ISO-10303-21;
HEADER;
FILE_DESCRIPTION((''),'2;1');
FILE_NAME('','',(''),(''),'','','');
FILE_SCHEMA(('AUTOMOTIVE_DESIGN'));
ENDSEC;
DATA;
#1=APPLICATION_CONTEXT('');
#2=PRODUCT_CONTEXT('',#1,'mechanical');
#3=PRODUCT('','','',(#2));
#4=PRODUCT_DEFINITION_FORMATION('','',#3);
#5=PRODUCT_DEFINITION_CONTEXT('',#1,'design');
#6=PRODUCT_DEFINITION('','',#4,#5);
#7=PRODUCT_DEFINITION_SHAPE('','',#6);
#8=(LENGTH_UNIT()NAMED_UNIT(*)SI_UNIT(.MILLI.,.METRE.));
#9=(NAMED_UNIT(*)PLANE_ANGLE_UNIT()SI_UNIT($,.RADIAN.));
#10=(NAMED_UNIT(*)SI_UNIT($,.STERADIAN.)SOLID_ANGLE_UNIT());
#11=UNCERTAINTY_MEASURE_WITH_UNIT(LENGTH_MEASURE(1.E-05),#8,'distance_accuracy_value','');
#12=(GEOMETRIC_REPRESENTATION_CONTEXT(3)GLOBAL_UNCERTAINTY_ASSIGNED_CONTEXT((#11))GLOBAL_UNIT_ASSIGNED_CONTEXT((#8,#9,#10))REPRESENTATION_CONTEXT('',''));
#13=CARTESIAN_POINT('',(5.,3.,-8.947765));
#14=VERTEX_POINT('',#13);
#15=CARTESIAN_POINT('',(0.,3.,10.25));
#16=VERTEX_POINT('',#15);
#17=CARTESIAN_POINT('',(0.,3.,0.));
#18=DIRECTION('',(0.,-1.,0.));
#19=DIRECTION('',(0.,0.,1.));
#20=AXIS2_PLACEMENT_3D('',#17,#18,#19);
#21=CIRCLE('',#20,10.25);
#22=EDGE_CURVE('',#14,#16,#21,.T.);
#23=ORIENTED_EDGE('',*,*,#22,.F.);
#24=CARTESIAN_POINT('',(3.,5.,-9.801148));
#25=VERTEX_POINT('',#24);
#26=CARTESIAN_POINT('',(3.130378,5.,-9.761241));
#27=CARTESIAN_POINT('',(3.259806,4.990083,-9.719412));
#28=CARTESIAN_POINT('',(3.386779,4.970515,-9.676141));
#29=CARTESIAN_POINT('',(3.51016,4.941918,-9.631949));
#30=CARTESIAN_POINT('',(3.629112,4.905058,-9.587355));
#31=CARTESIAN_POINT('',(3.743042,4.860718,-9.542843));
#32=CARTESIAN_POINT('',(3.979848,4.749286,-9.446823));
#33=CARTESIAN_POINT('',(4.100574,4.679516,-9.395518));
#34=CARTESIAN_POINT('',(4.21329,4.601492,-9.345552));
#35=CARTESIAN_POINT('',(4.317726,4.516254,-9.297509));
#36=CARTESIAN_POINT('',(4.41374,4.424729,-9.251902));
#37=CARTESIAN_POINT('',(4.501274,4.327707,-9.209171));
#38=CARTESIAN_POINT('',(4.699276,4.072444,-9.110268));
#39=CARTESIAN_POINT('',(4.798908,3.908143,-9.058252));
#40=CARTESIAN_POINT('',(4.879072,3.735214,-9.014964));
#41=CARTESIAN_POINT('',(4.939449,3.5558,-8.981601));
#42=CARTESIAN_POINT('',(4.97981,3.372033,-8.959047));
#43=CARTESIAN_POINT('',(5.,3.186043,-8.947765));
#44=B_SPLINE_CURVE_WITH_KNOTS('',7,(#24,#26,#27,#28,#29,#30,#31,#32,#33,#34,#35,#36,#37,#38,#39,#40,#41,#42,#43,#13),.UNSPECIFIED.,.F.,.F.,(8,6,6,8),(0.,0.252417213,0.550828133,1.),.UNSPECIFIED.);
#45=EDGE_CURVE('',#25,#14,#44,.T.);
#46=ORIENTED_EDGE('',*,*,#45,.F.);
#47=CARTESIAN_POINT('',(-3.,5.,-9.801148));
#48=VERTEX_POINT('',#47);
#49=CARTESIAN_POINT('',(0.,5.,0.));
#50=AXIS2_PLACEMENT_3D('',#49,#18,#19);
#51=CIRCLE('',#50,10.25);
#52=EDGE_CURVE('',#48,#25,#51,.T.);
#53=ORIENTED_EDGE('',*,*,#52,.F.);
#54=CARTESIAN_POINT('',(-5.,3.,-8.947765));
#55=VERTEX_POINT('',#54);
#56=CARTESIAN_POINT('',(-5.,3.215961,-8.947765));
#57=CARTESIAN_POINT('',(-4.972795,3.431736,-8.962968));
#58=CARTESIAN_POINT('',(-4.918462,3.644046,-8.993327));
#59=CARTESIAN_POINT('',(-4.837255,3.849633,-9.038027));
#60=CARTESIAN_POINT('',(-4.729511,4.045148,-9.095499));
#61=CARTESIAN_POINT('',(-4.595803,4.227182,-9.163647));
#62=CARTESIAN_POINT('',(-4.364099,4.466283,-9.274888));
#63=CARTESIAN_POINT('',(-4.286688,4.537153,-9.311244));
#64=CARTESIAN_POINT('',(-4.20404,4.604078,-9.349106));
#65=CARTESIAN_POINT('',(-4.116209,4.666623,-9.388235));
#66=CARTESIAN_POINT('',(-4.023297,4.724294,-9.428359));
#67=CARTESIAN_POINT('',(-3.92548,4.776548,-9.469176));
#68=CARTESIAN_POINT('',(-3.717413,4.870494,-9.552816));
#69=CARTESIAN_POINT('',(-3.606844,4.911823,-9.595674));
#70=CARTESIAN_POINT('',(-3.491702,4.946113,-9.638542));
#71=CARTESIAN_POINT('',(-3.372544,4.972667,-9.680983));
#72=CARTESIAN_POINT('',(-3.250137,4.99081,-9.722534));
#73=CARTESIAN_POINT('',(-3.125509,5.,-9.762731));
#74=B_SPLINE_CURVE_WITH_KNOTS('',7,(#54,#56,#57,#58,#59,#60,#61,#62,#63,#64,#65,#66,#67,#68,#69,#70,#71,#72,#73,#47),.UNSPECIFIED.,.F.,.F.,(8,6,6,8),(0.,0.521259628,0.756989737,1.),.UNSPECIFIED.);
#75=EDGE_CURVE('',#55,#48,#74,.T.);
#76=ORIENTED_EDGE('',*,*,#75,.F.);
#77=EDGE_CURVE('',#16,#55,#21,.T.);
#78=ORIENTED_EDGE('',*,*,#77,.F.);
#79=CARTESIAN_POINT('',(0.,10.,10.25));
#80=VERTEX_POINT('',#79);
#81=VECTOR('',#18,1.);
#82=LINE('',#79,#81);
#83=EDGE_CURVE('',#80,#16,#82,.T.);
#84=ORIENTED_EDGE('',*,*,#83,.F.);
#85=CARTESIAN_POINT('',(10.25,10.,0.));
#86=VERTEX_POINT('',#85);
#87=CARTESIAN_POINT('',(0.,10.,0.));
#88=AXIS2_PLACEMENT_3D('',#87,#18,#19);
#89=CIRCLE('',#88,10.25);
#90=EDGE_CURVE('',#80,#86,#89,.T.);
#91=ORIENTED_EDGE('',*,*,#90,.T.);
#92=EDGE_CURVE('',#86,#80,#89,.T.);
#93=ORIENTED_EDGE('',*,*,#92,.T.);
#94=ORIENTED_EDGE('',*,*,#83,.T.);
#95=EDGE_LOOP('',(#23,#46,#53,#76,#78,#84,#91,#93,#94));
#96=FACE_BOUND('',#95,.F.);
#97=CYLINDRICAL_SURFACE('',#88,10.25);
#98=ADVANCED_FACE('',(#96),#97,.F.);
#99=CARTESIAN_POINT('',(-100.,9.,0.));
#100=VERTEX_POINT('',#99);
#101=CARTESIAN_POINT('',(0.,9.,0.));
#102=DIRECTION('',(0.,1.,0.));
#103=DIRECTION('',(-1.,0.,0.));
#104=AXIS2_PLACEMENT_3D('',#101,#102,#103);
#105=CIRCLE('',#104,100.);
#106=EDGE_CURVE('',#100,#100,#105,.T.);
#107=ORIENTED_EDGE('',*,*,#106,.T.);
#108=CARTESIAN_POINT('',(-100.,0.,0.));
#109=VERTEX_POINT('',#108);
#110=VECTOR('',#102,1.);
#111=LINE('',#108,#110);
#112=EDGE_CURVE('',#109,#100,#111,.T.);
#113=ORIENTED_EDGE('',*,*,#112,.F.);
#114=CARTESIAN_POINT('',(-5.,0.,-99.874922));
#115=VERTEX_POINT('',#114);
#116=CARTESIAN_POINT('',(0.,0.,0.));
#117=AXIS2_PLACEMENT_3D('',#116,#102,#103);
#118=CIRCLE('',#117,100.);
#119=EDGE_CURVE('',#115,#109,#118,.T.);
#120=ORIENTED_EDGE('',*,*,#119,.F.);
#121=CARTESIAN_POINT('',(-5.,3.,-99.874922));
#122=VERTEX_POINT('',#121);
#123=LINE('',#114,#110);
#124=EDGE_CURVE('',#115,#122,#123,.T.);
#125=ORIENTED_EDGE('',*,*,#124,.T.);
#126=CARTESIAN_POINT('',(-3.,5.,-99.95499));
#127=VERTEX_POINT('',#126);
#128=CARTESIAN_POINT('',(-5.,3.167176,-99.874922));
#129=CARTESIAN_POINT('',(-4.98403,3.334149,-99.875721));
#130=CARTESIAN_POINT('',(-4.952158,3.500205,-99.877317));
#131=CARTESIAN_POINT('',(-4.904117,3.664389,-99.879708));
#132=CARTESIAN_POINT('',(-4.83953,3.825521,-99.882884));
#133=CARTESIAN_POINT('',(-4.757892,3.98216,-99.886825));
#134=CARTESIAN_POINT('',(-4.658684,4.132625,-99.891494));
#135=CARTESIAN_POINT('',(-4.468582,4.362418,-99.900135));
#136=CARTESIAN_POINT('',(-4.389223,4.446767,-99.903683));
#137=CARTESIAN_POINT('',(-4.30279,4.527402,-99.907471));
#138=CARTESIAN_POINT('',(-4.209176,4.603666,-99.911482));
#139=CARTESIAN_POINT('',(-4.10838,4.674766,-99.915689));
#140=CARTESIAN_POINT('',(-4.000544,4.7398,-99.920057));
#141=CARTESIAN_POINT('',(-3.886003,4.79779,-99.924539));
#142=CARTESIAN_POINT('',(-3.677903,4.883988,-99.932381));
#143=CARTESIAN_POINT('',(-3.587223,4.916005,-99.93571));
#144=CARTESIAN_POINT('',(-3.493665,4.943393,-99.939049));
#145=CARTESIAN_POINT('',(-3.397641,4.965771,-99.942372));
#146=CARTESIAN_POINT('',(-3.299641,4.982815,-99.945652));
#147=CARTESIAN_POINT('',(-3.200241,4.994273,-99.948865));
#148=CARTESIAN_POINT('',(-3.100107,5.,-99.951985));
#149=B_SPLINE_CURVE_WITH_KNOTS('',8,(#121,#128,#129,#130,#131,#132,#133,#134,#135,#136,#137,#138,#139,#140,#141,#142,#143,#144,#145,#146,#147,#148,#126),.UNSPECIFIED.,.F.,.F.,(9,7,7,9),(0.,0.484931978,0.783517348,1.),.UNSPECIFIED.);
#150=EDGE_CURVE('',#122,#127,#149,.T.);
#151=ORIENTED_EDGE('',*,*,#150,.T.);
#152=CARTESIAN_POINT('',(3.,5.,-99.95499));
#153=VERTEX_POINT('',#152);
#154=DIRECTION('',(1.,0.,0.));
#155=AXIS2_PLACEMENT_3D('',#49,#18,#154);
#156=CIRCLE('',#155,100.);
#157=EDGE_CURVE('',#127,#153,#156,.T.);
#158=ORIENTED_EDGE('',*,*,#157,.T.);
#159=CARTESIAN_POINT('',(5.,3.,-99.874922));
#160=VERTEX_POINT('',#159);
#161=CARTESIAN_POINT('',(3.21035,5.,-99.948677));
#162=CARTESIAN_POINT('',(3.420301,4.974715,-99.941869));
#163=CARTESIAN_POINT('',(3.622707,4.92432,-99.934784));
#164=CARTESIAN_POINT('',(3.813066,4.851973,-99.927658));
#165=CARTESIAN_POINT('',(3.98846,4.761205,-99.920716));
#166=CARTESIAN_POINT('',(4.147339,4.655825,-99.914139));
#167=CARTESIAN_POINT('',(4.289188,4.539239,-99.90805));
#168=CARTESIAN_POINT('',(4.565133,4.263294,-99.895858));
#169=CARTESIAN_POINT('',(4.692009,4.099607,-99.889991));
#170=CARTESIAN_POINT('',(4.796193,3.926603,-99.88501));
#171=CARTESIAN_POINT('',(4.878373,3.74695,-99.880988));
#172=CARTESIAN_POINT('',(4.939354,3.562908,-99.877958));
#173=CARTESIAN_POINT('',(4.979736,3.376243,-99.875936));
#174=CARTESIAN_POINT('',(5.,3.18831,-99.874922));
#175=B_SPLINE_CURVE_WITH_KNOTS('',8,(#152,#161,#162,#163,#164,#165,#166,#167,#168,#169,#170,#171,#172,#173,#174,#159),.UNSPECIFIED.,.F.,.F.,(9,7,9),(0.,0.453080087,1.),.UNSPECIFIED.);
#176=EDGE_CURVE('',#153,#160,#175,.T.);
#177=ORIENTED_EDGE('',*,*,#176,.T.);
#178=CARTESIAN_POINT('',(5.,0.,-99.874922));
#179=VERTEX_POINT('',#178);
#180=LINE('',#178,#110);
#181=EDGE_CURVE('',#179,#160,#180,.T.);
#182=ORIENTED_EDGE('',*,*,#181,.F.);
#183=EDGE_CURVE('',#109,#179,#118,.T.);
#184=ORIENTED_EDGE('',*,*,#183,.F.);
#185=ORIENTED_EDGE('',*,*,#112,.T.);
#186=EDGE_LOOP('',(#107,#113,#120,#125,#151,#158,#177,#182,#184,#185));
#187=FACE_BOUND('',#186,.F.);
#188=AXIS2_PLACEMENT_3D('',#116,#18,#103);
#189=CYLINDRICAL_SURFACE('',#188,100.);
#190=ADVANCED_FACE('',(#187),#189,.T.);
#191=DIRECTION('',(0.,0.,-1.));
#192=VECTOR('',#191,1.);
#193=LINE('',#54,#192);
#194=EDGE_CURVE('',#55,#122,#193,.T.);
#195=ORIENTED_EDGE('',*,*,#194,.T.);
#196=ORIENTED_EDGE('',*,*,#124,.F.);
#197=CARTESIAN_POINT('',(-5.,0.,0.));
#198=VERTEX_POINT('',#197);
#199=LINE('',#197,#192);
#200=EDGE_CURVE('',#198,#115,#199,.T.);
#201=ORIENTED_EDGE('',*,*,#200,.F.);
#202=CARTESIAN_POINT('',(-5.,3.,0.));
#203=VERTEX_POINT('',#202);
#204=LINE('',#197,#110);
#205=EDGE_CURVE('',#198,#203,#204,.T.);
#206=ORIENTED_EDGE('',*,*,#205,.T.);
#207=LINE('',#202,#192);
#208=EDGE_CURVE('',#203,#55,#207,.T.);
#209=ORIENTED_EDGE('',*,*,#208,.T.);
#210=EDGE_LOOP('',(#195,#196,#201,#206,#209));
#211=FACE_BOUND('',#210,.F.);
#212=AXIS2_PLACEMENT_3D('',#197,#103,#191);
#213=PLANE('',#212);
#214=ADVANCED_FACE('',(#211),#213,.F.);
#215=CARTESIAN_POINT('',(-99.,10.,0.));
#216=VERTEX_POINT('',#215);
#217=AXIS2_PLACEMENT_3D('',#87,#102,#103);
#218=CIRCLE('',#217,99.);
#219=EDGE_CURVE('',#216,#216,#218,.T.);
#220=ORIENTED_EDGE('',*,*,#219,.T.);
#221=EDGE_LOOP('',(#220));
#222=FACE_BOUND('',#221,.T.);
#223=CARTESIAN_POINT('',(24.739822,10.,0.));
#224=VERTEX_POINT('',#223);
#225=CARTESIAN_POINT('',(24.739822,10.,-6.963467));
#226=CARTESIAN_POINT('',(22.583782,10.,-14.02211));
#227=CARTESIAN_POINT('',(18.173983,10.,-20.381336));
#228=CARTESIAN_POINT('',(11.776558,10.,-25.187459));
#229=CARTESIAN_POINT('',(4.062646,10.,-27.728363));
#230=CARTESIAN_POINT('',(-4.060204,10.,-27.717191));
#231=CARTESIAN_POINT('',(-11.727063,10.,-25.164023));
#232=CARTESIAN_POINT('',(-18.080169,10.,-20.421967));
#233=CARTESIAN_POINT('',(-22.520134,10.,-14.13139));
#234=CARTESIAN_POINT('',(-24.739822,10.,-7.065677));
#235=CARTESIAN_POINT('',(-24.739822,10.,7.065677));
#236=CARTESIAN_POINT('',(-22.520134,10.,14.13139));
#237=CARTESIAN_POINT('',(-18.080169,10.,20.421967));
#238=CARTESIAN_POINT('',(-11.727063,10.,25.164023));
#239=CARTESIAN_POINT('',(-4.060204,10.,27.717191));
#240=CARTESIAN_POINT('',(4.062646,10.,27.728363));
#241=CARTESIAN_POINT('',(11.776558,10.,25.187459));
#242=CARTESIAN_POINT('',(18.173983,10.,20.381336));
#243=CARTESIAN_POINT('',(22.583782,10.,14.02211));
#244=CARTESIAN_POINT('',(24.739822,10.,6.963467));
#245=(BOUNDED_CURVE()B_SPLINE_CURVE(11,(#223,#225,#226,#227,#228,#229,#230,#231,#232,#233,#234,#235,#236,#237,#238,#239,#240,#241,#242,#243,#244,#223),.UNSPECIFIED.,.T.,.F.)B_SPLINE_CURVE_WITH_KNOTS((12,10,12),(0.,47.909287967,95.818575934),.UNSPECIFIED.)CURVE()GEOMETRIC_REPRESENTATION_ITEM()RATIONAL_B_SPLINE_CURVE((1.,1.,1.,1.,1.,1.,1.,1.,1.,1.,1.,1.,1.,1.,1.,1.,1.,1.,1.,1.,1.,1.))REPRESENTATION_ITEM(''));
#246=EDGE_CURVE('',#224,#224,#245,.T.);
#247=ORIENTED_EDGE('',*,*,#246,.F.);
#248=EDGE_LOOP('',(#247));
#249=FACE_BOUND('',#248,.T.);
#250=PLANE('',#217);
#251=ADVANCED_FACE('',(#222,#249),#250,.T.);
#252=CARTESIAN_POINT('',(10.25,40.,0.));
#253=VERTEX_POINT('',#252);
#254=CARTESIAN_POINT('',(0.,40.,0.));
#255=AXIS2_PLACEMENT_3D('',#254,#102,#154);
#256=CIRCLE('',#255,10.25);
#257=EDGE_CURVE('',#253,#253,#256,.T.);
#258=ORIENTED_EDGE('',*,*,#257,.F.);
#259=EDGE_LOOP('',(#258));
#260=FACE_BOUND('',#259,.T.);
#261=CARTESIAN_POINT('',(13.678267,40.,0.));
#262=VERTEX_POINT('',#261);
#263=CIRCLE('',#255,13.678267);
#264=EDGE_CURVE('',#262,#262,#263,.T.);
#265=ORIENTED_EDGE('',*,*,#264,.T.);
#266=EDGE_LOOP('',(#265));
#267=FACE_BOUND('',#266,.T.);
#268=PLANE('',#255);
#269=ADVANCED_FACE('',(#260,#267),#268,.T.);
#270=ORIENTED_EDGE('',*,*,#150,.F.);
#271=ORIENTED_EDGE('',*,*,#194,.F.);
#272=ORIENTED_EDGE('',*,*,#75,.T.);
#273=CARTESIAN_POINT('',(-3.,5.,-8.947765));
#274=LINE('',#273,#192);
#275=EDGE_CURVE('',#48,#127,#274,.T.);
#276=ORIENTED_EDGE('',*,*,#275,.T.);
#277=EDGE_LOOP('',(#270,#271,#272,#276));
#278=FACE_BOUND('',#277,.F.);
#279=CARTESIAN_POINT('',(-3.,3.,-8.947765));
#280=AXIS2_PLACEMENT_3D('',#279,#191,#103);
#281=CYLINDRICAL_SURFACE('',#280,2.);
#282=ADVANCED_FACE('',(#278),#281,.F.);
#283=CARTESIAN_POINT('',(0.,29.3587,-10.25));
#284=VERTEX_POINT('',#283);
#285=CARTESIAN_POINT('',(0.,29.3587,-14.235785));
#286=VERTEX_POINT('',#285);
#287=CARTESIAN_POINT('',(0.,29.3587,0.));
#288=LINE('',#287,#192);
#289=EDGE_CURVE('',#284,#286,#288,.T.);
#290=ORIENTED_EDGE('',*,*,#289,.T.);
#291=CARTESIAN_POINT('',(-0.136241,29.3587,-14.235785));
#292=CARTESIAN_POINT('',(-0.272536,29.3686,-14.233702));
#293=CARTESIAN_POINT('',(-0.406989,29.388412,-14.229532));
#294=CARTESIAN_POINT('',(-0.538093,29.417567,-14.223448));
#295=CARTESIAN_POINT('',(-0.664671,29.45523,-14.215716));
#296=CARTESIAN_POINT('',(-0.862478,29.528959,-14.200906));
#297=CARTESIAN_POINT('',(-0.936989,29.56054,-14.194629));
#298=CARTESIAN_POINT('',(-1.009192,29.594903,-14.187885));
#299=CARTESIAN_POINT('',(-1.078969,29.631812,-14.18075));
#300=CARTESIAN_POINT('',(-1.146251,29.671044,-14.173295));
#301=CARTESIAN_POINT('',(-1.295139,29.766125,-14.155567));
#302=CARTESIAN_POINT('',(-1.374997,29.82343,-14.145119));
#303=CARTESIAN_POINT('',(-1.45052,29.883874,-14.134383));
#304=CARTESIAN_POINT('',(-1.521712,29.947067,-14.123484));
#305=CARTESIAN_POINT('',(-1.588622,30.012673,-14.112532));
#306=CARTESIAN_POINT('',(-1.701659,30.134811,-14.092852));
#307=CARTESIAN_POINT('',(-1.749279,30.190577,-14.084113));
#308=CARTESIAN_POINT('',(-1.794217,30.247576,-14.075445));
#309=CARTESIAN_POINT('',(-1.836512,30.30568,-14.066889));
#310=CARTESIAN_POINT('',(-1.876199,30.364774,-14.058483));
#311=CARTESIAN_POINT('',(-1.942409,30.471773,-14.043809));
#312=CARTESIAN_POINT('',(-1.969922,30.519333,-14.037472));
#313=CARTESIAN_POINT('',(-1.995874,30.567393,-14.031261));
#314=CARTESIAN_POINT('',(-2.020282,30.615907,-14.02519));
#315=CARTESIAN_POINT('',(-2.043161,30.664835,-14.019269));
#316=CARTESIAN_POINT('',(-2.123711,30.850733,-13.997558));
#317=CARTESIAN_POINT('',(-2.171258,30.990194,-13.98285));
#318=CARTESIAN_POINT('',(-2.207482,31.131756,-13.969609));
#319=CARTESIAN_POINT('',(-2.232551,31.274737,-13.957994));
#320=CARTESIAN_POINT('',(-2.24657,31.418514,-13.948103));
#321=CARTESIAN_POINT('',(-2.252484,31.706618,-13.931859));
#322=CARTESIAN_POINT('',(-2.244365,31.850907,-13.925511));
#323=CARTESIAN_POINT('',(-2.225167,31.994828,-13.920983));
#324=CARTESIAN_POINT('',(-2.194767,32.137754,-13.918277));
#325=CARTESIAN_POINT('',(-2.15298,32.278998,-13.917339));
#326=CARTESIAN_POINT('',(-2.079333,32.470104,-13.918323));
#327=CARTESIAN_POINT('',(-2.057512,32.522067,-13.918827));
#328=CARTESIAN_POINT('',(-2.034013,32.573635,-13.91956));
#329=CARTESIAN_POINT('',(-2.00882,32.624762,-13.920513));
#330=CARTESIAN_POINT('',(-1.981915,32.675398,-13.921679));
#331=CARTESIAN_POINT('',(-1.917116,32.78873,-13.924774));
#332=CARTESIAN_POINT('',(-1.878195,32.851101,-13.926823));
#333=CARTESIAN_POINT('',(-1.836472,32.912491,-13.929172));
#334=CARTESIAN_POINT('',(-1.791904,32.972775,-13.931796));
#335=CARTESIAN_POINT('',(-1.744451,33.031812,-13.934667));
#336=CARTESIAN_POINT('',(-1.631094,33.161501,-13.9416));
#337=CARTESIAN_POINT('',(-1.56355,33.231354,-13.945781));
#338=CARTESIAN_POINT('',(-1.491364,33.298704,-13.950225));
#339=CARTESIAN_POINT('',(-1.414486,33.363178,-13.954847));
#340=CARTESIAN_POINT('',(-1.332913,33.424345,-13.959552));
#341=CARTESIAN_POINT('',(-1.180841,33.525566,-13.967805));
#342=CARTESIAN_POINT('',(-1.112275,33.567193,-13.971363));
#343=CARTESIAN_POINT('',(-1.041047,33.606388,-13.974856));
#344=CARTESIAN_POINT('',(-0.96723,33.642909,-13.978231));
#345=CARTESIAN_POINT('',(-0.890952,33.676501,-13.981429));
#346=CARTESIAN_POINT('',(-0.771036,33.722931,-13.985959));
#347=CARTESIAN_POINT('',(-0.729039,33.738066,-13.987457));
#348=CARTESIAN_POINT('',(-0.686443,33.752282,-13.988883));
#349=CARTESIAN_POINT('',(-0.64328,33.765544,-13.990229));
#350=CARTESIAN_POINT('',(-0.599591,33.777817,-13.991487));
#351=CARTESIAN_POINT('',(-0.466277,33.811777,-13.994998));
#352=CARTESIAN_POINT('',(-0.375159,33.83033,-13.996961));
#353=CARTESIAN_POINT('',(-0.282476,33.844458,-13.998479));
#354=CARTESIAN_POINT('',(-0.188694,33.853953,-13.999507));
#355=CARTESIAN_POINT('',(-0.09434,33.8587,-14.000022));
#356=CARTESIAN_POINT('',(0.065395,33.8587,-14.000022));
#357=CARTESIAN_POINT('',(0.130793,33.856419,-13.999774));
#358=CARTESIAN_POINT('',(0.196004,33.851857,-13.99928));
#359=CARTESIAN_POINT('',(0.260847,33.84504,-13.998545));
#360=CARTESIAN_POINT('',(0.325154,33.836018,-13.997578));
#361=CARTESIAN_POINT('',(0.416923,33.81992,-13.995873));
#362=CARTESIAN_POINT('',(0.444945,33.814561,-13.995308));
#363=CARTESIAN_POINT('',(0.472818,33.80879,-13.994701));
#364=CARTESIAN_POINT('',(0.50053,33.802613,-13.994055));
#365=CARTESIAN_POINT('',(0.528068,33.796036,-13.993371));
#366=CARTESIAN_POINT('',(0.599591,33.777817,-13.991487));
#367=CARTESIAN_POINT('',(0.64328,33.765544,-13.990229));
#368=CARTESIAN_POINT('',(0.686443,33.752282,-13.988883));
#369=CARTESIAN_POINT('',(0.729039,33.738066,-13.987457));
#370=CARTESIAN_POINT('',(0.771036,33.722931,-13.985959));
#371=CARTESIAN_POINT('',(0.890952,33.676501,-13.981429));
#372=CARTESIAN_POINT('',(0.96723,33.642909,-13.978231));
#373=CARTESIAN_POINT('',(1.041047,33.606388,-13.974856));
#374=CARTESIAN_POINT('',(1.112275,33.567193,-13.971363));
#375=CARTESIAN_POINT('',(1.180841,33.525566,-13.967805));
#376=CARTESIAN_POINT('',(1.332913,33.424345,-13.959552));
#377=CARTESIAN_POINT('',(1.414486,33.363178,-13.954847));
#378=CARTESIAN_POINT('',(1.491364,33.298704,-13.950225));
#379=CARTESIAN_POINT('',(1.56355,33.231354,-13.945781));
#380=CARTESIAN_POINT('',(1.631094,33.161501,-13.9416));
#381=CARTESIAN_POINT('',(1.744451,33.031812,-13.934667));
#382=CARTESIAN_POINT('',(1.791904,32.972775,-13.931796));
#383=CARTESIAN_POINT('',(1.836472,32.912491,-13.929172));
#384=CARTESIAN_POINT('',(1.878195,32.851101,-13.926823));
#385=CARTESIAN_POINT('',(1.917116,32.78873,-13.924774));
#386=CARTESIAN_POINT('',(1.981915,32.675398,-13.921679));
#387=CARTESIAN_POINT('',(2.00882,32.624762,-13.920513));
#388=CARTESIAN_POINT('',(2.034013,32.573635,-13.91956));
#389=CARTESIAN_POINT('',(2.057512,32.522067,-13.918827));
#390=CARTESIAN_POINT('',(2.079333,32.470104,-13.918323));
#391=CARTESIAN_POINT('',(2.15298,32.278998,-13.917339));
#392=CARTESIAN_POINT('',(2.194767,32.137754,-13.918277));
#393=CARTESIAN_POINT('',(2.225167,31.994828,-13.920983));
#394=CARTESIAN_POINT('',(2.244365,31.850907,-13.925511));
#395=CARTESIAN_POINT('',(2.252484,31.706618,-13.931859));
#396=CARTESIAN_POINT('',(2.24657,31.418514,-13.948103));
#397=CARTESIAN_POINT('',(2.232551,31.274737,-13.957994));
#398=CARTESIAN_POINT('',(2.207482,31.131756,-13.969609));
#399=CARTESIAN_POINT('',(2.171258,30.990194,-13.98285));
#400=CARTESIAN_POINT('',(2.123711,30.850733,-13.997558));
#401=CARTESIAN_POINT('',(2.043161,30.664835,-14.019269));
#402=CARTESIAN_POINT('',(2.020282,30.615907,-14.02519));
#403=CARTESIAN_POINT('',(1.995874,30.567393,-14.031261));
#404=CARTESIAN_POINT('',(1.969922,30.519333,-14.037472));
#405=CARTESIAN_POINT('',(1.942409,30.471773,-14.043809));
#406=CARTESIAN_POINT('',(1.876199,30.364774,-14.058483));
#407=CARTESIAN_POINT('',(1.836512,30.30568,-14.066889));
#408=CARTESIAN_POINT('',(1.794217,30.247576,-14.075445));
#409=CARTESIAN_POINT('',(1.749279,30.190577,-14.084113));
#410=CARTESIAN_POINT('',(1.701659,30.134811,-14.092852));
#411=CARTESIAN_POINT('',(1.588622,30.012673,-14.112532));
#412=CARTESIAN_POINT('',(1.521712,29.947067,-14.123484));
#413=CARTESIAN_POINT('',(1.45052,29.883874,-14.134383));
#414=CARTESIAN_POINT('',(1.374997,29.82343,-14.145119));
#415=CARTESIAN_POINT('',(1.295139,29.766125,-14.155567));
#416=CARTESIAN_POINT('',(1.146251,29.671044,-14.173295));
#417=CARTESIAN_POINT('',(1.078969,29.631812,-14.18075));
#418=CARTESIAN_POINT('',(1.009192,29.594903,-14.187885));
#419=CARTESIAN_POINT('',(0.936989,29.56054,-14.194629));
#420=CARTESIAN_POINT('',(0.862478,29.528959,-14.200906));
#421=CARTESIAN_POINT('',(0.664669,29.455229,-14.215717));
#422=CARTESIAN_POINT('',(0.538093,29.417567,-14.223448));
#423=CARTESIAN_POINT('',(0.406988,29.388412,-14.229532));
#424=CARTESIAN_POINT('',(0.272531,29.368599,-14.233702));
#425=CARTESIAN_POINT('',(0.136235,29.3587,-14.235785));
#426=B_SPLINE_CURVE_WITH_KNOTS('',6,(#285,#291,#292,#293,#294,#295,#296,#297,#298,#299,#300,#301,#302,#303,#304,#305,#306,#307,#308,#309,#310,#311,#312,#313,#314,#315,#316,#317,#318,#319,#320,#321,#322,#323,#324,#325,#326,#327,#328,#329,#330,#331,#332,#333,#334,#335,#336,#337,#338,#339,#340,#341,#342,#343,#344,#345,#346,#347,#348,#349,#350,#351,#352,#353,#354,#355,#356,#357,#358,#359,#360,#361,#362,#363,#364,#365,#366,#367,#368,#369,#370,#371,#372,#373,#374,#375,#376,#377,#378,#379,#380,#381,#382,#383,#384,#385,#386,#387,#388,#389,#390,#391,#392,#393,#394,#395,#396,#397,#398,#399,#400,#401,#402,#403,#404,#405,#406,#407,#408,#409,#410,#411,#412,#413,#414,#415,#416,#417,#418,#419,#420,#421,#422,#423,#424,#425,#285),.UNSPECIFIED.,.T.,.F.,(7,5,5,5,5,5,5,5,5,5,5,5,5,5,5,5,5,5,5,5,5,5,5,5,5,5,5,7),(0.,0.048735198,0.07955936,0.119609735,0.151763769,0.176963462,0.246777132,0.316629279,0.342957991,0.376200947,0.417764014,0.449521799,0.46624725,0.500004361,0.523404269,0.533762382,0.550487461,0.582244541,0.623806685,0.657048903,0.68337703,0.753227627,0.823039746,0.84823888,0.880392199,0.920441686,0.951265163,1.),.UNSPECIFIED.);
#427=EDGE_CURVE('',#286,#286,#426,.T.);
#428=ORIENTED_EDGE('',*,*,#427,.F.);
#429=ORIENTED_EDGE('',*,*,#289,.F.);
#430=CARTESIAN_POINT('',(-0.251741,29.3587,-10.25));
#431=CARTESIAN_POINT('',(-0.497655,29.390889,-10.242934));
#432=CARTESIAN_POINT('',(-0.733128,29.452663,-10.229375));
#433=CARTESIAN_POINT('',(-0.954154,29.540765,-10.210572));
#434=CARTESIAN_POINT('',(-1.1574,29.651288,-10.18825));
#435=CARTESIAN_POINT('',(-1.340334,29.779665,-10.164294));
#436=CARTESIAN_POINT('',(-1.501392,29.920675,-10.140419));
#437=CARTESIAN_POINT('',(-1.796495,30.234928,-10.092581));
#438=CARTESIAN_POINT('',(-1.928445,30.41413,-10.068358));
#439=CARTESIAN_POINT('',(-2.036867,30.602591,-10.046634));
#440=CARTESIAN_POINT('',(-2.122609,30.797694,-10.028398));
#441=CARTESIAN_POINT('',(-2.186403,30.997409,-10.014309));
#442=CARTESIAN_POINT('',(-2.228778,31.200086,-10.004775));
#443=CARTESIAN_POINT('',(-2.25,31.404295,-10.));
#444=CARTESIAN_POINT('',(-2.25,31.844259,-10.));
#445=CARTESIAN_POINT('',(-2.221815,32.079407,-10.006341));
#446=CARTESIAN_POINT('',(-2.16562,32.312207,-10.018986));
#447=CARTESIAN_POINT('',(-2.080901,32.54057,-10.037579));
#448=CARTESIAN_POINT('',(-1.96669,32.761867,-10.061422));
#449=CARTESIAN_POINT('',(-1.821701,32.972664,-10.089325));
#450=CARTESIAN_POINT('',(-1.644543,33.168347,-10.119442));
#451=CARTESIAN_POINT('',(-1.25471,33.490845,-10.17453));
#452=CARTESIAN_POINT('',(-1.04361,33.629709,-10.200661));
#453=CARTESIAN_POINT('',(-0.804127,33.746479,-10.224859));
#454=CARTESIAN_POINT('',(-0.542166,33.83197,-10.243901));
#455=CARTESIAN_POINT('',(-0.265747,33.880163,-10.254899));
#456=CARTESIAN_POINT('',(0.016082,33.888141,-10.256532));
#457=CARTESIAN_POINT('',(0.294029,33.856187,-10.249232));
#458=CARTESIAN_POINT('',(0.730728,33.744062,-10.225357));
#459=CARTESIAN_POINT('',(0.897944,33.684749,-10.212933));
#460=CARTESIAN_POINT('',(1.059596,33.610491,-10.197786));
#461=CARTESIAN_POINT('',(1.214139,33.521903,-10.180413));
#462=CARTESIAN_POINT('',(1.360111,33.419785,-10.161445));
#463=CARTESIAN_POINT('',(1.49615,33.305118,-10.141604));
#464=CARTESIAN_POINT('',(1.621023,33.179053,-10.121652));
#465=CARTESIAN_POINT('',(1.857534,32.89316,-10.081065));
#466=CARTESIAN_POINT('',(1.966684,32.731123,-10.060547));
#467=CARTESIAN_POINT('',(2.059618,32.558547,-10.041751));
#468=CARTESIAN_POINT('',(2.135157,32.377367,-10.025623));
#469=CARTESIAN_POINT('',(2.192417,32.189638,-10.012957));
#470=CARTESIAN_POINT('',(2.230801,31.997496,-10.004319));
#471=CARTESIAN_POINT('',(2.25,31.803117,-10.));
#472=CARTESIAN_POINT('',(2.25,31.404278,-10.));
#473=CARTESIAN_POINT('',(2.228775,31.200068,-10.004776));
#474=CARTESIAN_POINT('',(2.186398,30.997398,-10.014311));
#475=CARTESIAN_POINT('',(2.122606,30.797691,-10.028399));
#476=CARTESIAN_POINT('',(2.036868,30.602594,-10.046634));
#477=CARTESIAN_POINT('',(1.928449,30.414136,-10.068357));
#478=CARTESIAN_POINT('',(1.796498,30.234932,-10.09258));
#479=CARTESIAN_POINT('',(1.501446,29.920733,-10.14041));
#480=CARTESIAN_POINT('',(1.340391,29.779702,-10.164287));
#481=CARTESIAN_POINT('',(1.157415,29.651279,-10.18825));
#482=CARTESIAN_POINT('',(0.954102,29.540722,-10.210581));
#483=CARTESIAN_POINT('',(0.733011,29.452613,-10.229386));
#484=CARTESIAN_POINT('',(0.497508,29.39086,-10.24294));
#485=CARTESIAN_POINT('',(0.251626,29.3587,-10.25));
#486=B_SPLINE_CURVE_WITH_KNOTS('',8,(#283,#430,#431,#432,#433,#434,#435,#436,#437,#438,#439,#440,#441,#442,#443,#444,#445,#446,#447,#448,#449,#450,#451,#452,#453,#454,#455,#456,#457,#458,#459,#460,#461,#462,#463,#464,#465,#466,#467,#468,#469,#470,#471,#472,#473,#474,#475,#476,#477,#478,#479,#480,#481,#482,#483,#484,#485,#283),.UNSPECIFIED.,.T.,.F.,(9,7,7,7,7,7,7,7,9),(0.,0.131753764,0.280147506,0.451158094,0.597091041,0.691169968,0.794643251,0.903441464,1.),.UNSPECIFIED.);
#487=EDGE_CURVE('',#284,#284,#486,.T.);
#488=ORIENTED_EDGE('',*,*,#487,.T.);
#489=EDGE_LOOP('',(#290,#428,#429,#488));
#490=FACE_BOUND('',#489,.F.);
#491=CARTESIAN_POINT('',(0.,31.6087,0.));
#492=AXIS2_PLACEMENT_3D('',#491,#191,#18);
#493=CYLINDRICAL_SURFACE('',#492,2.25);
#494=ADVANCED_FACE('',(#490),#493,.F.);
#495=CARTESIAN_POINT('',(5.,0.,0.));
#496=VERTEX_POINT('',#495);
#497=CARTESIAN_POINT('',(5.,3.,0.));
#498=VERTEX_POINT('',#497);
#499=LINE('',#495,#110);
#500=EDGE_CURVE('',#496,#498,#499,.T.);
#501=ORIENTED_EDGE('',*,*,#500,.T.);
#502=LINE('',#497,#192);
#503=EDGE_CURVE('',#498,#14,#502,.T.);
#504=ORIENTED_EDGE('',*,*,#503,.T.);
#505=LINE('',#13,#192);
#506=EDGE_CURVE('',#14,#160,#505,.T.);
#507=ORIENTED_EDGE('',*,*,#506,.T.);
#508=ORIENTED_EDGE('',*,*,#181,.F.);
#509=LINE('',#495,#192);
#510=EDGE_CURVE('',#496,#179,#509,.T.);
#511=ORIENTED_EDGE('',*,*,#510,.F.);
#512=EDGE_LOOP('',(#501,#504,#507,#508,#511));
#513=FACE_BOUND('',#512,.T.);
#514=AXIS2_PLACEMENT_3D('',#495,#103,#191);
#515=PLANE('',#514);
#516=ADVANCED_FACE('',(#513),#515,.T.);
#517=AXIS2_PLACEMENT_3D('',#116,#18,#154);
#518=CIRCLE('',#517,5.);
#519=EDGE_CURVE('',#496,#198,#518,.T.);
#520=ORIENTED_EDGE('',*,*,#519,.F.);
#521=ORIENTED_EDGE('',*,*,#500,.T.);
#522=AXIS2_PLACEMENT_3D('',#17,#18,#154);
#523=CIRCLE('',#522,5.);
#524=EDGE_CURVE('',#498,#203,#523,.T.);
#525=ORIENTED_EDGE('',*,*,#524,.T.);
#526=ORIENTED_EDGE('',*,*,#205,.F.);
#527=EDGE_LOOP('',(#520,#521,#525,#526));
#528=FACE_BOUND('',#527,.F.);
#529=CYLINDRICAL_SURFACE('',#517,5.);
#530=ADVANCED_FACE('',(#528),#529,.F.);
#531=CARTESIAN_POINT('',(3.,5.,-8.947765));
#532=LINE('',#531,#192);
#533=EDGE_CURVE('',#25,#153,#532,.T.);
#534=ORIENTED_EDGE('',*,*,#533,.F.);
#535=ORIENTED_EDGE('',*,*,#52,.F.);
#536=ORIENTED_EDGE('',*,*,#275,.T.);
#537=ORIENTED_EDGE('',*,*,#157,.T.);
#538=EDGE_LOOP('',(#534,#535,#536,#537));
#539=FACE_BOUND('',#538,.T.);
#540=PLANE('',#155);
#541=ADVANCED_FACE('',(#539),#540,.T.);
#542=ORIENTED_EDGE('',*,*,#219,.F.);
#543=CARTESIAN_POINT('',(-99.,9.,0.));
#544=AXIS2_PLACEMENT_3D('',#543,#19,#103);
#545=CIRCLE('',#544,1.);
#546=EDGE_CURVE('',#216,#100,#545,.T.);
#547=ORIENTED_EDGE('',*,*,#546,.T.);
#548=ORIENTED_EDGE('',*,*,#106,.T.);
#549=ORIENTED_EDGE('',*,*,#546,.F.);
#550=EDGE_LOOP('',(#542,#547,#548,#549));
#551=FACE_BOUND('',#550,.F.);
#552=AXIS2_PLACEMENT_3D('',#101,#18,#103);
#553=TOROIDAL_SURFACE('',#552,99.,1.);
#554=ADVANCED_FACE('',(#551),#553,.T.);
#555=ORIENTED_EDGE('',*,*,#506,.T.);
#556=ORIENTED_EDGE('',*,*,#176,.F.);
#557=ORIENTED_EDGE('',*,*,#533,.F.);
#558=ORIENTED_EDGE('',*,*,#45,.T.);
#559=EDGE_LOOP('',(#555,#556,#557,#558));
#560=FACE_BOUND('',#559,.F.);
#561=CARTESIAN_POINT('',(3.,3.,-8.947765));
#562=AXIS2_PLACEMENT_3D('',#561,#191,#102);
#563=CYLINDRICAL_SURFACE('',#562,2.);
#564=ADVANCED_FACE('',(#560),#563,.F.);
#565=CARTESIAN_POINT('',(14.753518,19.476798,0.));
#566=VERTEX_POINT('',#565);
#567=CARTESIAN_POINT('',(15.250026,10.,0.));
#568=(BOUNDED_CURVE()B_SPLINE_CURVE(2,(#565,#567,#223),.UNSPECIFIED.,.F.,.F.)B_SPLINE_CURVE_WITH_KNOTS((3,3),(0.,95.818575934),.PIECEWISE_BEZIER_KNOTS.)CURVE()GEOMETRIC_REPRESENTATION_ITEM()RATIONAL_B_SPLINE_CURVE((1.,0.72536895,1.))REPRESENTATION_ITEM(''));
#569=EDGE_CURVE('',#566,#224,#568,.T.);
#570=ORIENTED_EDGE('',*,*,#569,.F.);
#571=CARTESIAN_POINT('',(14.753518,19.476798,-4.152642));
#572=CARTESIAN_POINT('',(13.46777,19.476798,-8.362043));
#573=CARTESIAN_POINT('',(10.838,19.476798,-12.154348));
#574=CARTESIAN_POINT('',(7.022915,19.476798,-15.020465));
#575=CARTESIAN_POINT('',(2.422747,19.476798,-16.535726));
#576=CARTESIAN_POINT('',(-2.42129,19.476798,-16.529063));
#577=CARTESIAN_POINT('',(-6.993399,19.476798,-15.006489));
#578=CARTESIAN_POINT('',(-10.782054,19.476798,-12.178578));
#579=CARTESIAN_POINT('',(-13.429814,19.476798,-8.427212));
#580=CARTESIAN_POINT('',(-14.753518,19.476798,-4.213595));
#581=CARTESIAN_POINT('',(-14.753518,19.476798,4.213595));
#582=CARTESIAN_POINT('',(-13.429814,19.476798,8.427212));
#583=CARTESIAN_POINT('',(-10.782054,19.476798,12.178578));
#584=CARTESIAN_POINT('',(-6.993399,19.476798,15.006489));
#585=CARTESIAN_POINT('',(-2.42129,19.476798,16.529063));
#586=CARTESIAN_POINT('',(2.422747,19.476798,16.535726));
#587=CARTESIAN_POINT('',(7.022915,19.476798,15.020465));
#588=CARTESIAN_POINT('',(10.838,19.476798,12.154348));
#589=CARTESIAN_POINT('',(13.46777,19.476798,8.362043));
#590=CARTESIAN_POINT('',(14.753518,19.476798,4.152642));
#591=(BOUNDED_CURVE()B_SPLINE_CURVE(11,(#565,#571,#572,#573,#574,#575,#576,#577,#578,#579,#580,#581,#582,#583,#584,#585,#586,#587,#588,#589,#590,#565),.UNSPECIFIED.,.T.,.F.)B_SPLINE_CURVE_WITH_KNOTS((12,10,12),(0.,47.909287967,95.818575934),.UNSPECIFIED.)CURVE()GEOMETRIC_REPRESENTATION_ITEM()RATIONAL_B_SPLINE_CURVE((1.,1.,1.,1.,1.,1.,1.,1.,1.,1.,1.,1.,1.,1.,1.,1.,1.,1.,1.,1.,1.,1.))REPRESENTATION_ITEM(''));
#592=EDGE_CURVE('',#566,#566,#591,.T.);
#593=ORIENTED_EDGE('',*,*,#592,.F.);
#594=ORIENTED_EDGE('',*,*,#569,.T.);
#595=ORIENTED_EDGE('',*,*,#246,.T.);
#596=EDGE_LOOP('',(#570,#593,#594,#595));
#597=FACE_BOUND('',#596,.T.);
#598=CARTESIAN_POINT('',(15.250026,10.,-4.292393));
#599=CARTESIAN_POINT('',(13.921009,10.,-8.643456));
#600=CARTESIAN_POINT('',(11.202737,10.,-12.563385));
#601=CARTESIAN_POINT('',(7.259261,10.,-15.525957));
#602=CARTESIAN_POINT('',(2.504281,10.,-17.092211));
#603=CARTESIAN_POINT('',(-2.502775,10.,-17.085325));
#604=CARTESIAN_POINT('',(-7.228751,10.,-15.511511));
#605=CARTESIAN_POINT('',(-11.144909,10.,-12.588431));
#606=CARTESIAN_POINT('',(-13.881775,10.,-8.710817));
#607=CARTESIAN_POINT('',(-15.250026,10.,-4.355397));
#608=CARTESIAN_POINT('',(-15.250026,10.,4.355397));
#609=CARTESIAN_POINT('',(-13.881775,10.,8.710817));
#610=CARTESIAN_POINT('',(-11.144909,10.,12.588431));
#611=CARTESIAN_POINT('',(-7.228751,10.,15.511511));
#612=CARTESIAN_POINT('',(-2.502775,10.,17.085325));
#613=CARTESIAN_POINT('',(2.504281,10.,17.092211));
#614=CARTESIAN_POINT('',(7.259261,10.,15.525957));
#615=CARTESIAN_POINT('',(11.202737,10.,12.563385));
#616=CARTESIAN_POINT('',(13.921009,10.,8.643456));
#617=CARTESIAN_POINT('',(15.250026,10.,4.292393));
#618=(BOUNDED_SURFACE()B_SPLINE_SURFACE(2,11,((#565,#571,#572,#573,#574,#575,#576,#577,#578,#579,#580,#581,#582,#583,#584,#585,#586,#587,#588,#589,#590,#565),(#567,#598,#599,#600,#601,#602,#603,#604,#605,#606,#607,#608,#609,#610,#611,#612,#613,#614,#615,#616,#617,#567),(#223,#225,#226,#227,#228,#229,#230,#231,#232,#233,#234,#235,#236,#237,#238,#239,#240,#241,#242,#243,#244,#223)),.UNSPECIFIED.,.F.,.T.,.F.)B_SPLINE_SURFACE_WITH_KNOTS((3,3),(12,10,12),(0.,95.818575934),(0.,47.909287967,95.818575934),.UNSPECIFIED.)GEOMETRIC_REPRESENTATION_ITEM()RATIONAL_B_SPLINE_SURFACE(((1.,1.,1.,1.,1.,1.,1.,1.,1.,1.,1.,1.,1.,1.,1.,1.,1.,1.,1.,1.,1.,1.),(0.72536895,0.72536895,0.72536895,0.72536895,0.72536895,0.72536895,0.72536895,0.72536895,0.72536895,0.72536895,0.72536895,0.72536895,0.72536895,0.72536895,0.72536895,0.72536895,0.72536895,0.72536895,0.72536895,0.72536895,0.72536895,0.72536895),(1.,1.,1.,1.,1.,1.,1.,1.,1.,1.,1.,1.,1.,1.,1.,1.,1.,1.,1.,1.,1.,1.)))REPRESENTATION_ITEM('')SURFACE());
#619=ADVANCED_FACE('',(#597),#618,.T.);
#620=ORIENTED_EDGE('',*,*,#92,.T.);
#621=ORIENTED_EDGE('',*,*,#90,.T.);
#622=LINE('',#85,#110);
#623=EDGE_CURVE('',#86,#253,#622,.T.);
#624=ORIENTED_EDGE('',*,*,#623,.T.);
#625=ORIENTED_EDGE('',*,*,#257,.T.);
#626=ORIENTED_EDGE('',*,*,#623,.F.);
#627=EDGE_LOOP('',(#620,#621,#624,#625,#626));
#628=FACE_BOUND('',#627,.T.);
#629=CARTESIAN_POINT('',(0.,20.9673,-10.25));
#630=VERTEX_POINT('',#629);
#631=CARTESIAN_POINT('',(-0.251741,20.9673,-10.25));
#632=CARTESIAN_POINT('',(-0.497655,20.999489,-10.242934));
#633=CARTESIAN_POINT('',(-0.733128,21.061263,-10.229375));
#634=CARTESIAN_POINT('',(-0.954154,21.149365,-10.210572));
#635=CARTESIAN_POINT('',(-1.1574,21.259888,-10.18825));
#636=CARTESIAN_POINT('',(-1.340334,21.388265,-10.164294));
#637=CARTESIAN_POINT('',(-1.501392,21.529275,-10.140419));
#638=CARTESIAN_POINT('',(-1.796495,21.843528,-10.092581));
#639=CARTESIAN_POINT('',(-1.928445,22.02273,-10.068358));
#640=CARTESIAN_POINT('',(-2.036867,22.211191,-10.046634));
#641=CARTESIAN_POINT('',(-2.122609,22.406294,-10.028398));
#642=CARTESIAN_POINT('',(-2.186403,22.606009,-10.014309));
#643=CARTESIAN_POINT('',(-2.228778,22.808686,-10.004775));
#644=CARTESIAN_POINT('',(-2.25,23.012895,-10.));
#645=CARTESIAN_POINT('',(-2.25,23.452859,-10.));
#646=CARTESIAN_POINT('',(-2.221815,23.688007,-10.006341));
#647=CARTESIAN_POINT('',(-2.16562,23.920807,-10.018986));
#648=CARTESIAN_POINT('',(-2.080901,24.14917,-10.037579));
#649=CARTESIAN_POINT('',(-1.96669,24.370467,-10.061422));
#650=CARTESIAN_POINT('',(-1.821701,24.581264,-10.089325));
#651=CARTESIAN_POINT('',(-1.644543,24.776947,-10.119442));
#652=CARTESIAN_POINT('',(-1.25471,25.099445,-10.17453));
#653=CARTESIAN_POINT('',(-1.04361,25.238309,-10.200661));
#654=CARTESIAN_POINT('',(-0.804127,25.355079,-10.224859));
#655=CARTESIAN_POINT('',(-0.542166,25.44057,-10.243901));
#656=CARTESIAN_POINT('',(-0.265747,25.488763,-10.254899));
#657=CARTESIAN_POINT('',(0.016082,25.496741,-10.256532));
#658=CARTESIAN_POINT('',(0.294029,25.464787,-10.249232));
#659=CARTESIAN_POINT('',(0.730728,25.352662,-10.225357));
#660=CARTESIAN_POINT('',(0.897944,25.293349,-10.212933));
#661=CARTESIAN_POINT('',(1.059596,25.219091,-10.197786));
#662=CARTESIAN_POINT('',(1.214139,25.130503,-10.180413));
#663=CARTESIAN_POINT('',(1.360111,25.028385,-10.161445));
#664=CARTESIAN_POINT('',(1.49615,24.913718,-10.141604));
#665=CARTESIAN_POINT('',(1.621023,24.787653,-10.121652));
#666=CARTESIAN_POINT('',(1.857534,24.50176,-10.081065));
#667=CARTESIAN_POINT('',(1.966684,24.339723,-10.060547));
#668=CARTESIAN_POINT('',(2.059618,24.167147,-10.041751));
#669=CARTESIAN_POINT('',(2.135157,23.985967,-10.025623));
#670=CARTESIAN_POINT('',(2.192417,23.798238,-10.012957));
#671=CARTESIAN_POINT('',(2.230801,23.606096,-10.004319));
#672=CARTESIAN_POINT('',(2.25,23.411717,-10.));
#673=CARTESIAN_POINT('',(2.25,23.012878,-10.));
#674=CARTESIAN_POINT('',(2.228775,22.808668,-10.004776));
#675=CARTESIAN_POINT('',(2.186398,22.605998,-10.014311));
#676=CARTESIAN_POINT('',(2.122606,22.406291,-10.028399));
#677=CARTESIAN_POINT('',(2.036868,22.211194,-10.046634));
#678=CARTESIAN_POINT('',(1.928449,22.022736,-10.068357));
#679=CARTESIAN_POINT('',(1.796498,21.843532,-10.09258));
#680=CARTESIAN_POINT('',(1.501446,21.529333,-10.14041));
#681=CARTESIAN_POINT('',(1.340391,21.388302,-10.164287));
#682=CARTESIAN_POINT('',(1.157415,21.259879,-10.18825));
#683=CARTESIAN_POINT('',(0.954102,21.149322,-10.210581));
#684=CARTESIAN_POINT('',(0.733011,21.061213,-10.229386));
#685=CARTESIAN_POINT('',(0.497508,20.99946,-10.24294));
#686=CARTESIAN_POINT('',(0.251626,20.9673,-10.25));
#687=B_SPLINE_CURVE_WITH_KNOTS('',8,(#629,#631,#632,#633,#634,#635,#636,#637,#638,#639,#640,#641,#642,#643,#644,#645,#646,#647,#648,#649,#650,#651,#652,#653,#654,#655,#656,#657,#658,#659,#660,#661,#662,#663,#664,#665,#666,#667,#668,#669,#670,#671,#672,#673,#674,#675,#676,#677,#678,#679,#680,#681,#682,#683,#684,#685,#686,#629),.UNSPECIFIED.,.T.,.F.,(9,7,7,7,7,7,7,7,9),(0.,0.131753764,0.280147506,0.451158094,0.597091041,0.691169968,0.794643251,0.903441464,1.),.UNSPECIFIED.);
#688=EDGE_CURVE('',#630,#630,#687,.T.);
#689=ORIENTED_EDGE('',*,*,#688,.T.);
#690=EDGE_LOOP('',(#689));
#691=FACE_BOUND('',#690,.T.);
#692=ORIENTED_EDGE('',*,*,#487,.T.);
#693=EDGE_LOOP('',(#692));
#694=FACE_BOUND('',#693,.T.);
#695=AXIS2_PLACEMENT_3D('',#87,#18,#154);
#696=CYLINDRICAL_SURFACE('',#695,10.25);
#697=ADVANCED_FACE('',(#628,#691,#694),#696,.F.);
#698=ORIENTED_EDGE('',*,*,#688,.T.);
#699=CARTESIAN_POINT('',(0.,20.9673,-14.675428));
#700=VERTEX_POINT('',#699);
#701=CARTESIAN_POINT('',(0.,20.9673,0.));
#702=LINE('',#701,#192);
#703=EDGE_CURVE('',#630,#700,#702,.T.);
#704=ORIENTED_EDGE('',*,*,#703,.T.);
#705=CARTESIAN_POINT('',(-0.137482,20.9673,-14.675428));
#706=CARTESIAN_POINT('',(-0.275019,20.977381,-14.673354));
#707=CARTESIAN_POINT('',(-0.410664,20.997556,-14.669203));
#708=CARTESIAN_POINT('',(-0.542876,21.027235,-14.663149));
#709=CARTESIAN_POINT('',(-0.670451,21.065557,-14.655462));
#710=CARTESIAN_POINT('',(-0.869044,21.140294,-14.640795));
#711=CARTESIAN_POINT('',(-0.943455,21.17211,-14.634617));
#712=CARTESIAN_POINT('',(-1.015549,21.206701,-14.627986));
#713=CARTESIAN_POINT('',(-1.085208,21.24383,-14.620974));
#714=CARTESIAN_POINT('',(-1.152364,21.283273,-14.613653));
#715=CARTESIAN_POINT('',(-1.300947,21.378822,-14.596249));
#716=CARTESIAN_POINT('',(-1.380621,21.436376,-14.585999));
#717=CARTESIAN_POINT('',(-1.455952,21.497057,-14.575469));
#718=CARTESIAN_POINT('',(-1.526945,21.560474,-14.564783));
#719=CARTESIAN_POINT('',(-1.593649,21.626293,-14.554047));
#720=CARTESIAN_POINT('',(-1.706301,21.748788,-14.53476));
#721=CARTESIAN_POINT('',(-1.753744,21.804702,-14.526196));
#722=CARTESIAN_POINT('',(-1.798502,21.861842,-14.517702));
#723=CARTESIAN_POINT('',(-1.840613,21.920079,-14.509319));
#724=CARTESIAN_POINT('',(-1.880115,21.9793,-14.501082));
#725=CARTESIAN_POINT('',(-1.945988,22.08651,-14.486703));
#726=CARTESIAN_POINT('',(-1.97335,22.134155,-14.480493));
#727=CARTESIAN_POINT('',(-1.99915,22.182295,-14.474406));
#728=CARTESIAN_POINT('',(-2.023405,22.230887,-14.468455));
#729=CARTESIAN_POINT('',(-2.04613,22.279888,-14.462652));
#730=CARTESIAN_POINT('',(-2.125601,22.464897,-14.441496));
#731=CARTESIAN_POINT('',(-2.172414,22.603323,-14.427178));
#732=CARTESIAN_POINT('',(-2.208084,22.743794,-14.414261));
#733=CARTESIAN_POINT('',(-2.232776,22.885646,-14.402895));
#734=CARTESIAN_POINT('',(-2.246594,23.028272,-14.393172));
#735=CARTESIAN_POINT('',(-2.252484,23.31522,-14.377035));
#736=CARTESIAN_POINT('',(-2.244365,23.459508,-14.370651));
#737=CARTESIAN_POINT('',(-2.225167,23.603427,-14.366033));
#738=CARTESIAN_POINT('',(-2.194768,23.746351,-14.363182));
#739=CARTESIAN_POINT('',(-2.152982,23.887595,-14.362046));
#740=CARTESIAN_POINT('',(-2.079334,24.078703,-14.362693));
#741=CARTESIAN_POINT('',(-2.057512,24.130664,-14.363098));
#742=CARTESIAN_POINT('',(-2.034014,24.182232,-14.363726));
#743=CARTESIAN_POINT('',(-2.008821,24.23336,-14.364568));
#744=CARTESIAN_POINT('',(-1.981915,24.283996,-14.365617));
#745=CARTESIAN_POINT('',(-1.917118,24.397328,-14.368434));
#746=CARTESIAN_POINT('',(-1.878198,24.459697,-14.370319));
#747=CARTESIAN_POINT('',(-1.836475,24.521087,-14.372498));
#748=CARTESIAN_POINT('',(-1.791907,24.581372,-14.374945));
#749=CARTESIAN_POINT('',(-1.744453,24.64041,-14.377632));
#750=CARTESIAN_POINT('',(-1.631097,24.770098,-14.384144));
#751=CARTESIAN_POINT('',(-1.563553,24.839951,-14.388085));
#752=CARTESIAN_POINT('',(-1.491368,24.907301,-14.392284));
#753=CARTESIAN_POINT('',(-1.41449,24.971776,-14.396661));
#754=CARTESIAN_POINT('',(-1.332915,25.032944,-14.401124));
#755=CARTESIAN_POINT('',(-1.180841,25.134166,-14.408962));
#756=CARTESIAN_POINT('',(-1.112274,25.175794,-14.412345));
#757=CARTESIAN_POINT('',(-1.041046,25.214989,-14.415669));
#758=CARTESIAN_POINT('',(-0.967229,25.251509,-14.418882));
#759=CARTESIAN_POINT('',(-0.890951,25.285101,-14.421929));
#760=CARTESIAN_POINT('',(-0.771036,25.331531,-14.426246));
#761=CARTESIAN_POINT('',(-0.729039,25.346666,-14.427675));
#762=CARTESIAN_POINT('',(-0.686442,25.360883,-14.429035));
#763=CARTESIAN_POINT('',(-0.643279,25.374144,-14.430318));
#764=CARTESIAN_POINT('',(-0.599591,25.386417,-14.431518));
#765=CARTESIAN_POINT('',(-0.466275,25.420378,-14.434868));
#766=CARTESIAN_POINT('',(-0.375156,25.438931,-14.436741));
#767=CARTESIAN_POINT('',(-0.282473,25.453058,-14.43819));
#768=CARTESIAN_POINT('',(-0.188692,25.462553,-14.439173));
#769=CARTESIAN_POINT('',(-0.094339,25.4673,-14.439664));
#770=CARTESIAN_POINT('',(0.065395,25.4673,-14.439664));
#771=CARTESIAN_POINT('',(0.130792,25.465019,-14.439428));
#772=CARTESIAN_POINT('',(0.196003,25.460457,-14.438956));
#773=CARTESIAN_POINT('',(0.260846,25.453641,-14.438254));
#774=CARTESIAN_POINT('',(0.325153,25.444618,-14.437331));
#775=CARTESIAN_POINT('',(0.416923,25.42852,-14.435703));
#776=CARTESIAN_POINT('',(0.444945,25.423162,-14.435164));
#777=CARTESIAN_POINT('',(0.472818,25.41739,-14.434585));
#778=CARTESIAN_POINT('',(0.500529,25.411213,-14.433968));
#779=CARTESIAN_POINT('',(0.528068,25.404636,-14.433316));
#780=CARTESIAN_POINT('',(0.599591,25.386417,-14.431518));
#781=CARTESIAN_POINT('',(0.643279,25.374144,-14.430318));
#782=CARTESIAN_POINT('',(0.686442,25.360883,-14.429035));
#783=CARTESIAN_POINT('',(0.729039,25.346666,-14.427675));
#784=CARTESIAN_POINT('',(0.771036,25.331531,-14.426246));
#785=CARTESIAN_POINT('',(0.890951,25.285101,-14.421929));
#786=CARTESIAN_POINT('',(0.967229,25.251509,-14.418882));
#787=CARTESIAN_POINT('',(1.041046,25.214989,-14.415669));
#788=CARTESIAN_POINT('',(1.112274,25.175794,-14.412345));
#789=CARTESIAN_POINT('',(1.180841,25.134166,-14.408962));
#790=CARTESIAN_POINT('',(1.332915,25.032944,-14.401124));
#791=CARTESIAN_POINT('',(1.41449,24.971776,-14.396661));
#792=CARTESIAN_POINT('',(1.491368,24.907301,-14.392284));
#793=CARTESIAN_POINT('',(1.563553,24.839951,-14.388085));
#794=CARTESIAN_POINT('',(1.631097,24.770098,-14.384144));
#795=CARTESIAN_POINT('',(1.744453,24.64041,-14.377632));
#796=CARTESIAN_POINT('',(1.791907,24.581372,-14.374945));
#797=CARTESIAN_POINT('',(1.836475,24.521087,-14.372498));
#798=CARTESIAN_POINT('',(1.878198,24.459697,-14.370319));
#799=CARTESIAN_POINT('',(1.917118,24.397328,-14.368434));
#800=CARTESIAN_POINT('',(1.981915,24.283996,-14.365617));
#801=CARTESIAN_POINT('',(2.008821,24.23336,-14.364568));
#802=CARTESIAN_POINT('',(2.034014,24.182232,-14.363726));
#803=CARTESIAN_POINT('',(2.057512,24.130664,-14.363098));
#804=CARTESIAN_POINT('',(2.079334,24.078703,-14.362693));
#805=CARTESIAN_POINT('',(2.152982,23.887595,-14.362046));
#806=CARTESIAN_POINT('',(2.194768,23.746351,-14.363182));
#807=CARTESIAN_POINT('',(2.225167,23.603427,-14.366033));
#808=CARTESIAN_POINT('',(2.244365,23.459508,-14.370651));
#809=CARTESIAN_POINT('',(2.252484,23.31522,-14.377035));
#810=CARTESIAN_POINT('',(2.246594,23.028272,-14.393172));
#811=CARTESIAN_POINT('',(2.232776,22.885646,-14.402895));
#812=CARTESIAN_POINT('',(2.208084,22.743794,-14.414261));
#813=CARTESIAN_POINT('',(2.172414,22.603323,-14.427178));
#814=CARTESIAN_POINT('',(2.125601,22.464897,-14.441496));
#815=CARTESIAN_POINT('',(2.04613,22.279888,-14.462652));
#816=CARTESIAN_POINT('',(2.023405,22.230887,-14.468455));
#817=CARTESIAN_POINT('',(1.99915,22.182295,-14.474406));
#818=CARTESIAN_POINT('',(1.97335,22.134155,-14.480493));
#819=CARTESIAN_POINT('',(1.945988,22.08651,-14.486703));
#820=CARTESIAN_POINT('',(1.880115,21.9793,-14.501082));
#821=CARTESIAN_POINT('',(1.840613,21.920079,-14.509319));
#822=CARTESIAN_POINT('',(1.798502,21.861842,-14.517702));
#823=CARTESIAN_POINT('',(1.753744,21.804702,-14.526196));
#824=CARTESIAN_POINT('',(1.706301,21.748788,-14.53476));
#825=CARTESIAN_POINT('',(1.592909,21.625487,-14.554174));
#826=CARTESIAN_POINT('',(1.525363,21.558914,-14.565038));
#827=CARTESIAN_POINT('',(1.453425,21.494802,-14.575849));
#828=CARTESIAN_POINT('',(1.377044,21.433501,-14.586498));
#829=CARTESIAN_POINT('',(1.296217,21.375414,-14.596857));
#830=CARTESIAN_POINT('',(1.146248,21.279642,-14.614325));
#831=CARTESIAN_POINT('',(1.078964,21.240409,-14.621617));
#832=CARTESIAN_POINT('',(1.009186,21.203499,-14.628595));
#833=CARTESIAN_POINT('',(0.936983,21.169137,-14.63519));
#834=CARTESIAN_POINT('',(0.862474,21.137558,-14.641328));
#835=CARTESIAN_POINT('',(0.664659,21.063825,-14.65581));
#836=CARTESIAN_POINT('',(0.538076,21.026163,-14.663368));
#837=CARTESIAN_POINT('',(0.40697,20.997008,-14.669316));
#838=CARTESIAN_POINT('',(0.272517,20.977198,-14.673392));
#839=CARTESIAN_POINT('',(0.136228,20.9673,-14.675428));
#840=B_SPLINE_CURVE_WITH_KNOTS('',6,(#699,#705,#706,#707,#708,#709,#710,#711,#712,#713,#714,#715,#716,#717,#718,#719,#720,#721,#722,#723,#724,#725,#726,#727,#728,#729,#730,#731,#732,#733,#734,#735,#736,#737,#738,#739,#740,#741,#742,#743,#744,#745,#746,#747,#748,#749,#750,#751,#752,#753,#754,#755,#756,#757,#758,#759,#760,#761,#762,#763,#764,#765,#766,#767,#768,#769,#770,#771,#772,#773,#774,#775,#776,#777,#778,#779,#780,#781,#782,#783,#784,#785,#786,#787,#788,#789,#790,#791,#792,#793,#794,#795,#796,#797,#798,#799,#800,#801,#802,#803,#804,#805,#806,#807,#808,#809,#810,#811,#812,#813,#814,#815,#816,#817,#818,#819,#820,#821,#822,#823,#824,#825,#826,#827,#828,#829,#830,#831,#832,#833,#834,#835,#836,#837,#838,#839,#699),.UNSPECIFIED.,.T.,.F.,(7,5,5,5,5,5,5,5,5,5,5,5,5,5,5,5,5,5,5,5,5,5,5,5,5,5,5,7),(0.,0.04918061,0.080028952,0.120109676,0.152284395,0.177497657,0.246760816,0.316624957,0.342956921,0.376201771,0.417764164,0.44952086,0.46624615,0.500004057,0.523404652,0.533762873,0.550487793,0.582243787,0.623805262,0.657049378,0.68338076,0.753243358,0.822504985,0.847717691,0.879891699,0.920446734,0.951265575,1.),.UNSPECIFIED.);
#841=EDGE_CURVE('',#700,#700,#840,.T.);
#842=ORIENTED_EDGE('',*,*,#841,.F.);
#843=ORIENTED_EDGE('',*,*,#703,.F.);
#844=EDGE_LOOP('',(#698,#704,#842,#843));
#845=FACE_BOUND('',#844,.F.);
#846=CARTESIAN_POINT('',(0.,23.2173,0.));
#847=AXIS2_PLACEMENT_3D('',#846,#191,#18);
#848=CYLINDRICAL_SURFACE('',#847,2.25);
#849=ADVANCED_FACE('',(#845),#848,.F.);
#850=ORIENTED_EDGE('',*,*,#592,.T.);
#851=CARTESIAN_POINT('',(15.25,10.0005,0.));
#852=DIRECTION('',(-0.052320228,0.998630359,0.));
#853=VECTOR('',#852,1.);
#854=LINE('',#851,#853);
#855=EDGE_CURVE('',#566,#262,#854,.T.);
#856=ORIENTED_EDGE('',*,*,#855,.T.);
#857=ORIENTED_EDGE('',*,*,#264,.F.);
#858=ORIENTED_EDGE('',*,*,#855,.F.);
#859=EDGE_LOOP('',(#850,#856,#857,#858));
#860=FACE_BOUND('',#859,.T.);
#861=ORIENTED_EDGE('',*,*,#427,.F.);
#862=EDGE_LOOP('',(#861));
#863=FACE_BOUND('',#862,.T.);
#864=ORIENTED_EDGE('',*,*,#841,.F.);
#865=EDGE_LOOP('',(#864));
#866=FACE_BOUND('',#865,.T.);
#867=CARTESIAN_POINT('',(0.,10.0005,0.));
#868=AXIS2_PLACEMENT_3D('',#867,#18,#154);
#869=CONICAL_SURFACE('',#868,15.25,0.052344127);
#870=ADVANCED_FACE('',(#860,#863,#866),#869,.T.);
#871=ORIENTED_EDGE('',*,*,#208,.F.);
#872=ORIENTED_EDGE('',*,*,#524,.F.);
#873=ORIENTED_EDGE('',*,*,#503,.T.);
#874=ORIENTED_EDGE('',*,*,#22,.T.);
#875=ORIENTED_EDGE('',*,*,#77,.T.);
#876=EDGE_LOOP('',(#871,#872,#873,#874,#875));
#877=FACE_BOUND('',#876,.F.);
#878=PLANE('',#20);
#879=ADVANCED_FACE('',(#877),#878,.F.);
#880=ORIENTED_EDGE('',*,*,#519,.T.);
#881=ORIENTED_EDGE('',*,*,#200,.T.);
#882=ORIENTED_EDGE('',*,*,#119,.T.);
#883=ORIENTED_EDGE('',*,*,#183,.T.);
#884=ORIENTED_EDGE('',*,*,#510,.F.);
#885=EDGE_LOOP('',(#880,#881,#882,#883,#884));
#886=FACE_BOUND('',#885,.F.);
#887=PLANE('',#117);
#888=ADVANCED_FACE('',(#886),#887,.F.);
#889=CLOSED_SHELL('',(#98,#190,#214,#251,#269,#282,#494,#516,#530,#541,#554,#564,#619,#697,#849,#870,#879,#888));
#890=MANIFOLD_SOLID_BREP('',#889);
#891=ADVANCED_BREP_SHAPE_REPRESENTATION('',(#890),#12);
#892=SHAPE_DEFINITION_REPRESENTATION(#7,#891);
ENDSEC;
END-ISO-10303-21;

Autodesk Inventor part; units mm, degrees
ref_plane "YZ Plane" through (0, 0, 0) normal (1, 0, 0) x (0, 1, 0)
ref_plane "XZ Plane" through (0, 0, 0) normal (0, 1, 0) x (-1, 0, 0)
ref_plane "XY Plane" through (0, 0, 0) normal (0, 0, 1) x (1, 0, 0)
sketch "Boceto2" plane through (0, 0, 0) normal (0, 1, 0) x (-1, 0, 0)
  circle A0 centre (0, 0) radius 100
  dimension "d11" = 200
extrude "Extrusión2" add sketch "Boceto2" along normal blind 10
sketch "Boceto3" plane through (0, 10, 0) normal (0, 1, 0) x (1, 0, 0)
  circle A0 centre (0, 0) radius 100 projected
hole "Agujero1" at (0, 10, 0) direction (0, -1, 0) diameter 20.5 depth 7
sketch "Boceto4" plane through (0, 10, 0) normal (0, 1, 0) x (1, 0, 0)
  circle A0 centre (0, 0) radius 10.25 projected
  circle A1 centre (0, 0) radius 100 projected
  circle A2 centre (0, 0) radius 15.25
  dimension "d21" = 5
extrude "Extrusión3" add sketch "Boceto4" along normal blind 30 contours A2
sketch "Boceto5" plane through (0, 0, 0) normal (0, 0, 1) x (1, 0, 0)
  line L0 (15.25, 40) -> (-15.25, 40) projected
  line L1 (0, 40) -> (0, 20)
  line L2 (0, 40) -> (0, 31.6087)
  line L3 (0, 31.6087) -> (0, 23.2173)
  circle A0 centre (0, 23.2173) radius 2.25
  circle A1 centre (0, 31.6087) radius 2.25
  point P0 (0, 0)
  point P1 (-15.25, 20)
  point P2 (15.25, 20)
  dimension "d25" = 8.3913
  dimension "d26" = 8.3913
  dimension "d27" = 4.5
  dimension "d28" = 4.5
fillet "Empalme2" radius 1 1 edges at (100, 10, 0)
chamfer "Chaflán1" distance 30 angle 3 1 edges at (-15.25, 40, 0) measured on face at (15.2005, 30, 1.2271)
hole "Agujero3" at (0, 31.6087, 0) at (0, 23.2173, 0) direction (0, 0, -1) diameter 4.5 end through all
fillet "Empalme3" radius 10 2 edges at (-15.25, 10.0005, 0) (-15.25, 10, 0)
sketch "Boceto6" plane through (0, 0, 0) normal (0, -1, 0) x (1, 0, 0)
  circle A0 centre (0, 0) radius 100 projected
  circle A1 centre (0, 0) radius 5
  line L0 (5, 0) -> (5, -105)
  line L1 (-5, 0) -> (-5, -105)
  point P0 (-5, -99.8749)
  point P1 (5, -99.8749)
  dimension "d48" = 10
  dimension "d49" = 105
  dimension "d50" = 10
extrude "Extrusión4" cut sketch "Boceto6" against normal blind 5 contours L1 A1 L0 A0 | A1 picked at (0.2009, -68.3119)
sketch "Boceto7" plane through (-5, 0, 0) normal (1, 0, 0) x (0, 0, -1)
  point P0 (0, 0)
fillet "Empalme4" radius 2 2 edges at (-5, 5, -54.4113) (5, 5, -54.4113)
properties part number "Pie2"
